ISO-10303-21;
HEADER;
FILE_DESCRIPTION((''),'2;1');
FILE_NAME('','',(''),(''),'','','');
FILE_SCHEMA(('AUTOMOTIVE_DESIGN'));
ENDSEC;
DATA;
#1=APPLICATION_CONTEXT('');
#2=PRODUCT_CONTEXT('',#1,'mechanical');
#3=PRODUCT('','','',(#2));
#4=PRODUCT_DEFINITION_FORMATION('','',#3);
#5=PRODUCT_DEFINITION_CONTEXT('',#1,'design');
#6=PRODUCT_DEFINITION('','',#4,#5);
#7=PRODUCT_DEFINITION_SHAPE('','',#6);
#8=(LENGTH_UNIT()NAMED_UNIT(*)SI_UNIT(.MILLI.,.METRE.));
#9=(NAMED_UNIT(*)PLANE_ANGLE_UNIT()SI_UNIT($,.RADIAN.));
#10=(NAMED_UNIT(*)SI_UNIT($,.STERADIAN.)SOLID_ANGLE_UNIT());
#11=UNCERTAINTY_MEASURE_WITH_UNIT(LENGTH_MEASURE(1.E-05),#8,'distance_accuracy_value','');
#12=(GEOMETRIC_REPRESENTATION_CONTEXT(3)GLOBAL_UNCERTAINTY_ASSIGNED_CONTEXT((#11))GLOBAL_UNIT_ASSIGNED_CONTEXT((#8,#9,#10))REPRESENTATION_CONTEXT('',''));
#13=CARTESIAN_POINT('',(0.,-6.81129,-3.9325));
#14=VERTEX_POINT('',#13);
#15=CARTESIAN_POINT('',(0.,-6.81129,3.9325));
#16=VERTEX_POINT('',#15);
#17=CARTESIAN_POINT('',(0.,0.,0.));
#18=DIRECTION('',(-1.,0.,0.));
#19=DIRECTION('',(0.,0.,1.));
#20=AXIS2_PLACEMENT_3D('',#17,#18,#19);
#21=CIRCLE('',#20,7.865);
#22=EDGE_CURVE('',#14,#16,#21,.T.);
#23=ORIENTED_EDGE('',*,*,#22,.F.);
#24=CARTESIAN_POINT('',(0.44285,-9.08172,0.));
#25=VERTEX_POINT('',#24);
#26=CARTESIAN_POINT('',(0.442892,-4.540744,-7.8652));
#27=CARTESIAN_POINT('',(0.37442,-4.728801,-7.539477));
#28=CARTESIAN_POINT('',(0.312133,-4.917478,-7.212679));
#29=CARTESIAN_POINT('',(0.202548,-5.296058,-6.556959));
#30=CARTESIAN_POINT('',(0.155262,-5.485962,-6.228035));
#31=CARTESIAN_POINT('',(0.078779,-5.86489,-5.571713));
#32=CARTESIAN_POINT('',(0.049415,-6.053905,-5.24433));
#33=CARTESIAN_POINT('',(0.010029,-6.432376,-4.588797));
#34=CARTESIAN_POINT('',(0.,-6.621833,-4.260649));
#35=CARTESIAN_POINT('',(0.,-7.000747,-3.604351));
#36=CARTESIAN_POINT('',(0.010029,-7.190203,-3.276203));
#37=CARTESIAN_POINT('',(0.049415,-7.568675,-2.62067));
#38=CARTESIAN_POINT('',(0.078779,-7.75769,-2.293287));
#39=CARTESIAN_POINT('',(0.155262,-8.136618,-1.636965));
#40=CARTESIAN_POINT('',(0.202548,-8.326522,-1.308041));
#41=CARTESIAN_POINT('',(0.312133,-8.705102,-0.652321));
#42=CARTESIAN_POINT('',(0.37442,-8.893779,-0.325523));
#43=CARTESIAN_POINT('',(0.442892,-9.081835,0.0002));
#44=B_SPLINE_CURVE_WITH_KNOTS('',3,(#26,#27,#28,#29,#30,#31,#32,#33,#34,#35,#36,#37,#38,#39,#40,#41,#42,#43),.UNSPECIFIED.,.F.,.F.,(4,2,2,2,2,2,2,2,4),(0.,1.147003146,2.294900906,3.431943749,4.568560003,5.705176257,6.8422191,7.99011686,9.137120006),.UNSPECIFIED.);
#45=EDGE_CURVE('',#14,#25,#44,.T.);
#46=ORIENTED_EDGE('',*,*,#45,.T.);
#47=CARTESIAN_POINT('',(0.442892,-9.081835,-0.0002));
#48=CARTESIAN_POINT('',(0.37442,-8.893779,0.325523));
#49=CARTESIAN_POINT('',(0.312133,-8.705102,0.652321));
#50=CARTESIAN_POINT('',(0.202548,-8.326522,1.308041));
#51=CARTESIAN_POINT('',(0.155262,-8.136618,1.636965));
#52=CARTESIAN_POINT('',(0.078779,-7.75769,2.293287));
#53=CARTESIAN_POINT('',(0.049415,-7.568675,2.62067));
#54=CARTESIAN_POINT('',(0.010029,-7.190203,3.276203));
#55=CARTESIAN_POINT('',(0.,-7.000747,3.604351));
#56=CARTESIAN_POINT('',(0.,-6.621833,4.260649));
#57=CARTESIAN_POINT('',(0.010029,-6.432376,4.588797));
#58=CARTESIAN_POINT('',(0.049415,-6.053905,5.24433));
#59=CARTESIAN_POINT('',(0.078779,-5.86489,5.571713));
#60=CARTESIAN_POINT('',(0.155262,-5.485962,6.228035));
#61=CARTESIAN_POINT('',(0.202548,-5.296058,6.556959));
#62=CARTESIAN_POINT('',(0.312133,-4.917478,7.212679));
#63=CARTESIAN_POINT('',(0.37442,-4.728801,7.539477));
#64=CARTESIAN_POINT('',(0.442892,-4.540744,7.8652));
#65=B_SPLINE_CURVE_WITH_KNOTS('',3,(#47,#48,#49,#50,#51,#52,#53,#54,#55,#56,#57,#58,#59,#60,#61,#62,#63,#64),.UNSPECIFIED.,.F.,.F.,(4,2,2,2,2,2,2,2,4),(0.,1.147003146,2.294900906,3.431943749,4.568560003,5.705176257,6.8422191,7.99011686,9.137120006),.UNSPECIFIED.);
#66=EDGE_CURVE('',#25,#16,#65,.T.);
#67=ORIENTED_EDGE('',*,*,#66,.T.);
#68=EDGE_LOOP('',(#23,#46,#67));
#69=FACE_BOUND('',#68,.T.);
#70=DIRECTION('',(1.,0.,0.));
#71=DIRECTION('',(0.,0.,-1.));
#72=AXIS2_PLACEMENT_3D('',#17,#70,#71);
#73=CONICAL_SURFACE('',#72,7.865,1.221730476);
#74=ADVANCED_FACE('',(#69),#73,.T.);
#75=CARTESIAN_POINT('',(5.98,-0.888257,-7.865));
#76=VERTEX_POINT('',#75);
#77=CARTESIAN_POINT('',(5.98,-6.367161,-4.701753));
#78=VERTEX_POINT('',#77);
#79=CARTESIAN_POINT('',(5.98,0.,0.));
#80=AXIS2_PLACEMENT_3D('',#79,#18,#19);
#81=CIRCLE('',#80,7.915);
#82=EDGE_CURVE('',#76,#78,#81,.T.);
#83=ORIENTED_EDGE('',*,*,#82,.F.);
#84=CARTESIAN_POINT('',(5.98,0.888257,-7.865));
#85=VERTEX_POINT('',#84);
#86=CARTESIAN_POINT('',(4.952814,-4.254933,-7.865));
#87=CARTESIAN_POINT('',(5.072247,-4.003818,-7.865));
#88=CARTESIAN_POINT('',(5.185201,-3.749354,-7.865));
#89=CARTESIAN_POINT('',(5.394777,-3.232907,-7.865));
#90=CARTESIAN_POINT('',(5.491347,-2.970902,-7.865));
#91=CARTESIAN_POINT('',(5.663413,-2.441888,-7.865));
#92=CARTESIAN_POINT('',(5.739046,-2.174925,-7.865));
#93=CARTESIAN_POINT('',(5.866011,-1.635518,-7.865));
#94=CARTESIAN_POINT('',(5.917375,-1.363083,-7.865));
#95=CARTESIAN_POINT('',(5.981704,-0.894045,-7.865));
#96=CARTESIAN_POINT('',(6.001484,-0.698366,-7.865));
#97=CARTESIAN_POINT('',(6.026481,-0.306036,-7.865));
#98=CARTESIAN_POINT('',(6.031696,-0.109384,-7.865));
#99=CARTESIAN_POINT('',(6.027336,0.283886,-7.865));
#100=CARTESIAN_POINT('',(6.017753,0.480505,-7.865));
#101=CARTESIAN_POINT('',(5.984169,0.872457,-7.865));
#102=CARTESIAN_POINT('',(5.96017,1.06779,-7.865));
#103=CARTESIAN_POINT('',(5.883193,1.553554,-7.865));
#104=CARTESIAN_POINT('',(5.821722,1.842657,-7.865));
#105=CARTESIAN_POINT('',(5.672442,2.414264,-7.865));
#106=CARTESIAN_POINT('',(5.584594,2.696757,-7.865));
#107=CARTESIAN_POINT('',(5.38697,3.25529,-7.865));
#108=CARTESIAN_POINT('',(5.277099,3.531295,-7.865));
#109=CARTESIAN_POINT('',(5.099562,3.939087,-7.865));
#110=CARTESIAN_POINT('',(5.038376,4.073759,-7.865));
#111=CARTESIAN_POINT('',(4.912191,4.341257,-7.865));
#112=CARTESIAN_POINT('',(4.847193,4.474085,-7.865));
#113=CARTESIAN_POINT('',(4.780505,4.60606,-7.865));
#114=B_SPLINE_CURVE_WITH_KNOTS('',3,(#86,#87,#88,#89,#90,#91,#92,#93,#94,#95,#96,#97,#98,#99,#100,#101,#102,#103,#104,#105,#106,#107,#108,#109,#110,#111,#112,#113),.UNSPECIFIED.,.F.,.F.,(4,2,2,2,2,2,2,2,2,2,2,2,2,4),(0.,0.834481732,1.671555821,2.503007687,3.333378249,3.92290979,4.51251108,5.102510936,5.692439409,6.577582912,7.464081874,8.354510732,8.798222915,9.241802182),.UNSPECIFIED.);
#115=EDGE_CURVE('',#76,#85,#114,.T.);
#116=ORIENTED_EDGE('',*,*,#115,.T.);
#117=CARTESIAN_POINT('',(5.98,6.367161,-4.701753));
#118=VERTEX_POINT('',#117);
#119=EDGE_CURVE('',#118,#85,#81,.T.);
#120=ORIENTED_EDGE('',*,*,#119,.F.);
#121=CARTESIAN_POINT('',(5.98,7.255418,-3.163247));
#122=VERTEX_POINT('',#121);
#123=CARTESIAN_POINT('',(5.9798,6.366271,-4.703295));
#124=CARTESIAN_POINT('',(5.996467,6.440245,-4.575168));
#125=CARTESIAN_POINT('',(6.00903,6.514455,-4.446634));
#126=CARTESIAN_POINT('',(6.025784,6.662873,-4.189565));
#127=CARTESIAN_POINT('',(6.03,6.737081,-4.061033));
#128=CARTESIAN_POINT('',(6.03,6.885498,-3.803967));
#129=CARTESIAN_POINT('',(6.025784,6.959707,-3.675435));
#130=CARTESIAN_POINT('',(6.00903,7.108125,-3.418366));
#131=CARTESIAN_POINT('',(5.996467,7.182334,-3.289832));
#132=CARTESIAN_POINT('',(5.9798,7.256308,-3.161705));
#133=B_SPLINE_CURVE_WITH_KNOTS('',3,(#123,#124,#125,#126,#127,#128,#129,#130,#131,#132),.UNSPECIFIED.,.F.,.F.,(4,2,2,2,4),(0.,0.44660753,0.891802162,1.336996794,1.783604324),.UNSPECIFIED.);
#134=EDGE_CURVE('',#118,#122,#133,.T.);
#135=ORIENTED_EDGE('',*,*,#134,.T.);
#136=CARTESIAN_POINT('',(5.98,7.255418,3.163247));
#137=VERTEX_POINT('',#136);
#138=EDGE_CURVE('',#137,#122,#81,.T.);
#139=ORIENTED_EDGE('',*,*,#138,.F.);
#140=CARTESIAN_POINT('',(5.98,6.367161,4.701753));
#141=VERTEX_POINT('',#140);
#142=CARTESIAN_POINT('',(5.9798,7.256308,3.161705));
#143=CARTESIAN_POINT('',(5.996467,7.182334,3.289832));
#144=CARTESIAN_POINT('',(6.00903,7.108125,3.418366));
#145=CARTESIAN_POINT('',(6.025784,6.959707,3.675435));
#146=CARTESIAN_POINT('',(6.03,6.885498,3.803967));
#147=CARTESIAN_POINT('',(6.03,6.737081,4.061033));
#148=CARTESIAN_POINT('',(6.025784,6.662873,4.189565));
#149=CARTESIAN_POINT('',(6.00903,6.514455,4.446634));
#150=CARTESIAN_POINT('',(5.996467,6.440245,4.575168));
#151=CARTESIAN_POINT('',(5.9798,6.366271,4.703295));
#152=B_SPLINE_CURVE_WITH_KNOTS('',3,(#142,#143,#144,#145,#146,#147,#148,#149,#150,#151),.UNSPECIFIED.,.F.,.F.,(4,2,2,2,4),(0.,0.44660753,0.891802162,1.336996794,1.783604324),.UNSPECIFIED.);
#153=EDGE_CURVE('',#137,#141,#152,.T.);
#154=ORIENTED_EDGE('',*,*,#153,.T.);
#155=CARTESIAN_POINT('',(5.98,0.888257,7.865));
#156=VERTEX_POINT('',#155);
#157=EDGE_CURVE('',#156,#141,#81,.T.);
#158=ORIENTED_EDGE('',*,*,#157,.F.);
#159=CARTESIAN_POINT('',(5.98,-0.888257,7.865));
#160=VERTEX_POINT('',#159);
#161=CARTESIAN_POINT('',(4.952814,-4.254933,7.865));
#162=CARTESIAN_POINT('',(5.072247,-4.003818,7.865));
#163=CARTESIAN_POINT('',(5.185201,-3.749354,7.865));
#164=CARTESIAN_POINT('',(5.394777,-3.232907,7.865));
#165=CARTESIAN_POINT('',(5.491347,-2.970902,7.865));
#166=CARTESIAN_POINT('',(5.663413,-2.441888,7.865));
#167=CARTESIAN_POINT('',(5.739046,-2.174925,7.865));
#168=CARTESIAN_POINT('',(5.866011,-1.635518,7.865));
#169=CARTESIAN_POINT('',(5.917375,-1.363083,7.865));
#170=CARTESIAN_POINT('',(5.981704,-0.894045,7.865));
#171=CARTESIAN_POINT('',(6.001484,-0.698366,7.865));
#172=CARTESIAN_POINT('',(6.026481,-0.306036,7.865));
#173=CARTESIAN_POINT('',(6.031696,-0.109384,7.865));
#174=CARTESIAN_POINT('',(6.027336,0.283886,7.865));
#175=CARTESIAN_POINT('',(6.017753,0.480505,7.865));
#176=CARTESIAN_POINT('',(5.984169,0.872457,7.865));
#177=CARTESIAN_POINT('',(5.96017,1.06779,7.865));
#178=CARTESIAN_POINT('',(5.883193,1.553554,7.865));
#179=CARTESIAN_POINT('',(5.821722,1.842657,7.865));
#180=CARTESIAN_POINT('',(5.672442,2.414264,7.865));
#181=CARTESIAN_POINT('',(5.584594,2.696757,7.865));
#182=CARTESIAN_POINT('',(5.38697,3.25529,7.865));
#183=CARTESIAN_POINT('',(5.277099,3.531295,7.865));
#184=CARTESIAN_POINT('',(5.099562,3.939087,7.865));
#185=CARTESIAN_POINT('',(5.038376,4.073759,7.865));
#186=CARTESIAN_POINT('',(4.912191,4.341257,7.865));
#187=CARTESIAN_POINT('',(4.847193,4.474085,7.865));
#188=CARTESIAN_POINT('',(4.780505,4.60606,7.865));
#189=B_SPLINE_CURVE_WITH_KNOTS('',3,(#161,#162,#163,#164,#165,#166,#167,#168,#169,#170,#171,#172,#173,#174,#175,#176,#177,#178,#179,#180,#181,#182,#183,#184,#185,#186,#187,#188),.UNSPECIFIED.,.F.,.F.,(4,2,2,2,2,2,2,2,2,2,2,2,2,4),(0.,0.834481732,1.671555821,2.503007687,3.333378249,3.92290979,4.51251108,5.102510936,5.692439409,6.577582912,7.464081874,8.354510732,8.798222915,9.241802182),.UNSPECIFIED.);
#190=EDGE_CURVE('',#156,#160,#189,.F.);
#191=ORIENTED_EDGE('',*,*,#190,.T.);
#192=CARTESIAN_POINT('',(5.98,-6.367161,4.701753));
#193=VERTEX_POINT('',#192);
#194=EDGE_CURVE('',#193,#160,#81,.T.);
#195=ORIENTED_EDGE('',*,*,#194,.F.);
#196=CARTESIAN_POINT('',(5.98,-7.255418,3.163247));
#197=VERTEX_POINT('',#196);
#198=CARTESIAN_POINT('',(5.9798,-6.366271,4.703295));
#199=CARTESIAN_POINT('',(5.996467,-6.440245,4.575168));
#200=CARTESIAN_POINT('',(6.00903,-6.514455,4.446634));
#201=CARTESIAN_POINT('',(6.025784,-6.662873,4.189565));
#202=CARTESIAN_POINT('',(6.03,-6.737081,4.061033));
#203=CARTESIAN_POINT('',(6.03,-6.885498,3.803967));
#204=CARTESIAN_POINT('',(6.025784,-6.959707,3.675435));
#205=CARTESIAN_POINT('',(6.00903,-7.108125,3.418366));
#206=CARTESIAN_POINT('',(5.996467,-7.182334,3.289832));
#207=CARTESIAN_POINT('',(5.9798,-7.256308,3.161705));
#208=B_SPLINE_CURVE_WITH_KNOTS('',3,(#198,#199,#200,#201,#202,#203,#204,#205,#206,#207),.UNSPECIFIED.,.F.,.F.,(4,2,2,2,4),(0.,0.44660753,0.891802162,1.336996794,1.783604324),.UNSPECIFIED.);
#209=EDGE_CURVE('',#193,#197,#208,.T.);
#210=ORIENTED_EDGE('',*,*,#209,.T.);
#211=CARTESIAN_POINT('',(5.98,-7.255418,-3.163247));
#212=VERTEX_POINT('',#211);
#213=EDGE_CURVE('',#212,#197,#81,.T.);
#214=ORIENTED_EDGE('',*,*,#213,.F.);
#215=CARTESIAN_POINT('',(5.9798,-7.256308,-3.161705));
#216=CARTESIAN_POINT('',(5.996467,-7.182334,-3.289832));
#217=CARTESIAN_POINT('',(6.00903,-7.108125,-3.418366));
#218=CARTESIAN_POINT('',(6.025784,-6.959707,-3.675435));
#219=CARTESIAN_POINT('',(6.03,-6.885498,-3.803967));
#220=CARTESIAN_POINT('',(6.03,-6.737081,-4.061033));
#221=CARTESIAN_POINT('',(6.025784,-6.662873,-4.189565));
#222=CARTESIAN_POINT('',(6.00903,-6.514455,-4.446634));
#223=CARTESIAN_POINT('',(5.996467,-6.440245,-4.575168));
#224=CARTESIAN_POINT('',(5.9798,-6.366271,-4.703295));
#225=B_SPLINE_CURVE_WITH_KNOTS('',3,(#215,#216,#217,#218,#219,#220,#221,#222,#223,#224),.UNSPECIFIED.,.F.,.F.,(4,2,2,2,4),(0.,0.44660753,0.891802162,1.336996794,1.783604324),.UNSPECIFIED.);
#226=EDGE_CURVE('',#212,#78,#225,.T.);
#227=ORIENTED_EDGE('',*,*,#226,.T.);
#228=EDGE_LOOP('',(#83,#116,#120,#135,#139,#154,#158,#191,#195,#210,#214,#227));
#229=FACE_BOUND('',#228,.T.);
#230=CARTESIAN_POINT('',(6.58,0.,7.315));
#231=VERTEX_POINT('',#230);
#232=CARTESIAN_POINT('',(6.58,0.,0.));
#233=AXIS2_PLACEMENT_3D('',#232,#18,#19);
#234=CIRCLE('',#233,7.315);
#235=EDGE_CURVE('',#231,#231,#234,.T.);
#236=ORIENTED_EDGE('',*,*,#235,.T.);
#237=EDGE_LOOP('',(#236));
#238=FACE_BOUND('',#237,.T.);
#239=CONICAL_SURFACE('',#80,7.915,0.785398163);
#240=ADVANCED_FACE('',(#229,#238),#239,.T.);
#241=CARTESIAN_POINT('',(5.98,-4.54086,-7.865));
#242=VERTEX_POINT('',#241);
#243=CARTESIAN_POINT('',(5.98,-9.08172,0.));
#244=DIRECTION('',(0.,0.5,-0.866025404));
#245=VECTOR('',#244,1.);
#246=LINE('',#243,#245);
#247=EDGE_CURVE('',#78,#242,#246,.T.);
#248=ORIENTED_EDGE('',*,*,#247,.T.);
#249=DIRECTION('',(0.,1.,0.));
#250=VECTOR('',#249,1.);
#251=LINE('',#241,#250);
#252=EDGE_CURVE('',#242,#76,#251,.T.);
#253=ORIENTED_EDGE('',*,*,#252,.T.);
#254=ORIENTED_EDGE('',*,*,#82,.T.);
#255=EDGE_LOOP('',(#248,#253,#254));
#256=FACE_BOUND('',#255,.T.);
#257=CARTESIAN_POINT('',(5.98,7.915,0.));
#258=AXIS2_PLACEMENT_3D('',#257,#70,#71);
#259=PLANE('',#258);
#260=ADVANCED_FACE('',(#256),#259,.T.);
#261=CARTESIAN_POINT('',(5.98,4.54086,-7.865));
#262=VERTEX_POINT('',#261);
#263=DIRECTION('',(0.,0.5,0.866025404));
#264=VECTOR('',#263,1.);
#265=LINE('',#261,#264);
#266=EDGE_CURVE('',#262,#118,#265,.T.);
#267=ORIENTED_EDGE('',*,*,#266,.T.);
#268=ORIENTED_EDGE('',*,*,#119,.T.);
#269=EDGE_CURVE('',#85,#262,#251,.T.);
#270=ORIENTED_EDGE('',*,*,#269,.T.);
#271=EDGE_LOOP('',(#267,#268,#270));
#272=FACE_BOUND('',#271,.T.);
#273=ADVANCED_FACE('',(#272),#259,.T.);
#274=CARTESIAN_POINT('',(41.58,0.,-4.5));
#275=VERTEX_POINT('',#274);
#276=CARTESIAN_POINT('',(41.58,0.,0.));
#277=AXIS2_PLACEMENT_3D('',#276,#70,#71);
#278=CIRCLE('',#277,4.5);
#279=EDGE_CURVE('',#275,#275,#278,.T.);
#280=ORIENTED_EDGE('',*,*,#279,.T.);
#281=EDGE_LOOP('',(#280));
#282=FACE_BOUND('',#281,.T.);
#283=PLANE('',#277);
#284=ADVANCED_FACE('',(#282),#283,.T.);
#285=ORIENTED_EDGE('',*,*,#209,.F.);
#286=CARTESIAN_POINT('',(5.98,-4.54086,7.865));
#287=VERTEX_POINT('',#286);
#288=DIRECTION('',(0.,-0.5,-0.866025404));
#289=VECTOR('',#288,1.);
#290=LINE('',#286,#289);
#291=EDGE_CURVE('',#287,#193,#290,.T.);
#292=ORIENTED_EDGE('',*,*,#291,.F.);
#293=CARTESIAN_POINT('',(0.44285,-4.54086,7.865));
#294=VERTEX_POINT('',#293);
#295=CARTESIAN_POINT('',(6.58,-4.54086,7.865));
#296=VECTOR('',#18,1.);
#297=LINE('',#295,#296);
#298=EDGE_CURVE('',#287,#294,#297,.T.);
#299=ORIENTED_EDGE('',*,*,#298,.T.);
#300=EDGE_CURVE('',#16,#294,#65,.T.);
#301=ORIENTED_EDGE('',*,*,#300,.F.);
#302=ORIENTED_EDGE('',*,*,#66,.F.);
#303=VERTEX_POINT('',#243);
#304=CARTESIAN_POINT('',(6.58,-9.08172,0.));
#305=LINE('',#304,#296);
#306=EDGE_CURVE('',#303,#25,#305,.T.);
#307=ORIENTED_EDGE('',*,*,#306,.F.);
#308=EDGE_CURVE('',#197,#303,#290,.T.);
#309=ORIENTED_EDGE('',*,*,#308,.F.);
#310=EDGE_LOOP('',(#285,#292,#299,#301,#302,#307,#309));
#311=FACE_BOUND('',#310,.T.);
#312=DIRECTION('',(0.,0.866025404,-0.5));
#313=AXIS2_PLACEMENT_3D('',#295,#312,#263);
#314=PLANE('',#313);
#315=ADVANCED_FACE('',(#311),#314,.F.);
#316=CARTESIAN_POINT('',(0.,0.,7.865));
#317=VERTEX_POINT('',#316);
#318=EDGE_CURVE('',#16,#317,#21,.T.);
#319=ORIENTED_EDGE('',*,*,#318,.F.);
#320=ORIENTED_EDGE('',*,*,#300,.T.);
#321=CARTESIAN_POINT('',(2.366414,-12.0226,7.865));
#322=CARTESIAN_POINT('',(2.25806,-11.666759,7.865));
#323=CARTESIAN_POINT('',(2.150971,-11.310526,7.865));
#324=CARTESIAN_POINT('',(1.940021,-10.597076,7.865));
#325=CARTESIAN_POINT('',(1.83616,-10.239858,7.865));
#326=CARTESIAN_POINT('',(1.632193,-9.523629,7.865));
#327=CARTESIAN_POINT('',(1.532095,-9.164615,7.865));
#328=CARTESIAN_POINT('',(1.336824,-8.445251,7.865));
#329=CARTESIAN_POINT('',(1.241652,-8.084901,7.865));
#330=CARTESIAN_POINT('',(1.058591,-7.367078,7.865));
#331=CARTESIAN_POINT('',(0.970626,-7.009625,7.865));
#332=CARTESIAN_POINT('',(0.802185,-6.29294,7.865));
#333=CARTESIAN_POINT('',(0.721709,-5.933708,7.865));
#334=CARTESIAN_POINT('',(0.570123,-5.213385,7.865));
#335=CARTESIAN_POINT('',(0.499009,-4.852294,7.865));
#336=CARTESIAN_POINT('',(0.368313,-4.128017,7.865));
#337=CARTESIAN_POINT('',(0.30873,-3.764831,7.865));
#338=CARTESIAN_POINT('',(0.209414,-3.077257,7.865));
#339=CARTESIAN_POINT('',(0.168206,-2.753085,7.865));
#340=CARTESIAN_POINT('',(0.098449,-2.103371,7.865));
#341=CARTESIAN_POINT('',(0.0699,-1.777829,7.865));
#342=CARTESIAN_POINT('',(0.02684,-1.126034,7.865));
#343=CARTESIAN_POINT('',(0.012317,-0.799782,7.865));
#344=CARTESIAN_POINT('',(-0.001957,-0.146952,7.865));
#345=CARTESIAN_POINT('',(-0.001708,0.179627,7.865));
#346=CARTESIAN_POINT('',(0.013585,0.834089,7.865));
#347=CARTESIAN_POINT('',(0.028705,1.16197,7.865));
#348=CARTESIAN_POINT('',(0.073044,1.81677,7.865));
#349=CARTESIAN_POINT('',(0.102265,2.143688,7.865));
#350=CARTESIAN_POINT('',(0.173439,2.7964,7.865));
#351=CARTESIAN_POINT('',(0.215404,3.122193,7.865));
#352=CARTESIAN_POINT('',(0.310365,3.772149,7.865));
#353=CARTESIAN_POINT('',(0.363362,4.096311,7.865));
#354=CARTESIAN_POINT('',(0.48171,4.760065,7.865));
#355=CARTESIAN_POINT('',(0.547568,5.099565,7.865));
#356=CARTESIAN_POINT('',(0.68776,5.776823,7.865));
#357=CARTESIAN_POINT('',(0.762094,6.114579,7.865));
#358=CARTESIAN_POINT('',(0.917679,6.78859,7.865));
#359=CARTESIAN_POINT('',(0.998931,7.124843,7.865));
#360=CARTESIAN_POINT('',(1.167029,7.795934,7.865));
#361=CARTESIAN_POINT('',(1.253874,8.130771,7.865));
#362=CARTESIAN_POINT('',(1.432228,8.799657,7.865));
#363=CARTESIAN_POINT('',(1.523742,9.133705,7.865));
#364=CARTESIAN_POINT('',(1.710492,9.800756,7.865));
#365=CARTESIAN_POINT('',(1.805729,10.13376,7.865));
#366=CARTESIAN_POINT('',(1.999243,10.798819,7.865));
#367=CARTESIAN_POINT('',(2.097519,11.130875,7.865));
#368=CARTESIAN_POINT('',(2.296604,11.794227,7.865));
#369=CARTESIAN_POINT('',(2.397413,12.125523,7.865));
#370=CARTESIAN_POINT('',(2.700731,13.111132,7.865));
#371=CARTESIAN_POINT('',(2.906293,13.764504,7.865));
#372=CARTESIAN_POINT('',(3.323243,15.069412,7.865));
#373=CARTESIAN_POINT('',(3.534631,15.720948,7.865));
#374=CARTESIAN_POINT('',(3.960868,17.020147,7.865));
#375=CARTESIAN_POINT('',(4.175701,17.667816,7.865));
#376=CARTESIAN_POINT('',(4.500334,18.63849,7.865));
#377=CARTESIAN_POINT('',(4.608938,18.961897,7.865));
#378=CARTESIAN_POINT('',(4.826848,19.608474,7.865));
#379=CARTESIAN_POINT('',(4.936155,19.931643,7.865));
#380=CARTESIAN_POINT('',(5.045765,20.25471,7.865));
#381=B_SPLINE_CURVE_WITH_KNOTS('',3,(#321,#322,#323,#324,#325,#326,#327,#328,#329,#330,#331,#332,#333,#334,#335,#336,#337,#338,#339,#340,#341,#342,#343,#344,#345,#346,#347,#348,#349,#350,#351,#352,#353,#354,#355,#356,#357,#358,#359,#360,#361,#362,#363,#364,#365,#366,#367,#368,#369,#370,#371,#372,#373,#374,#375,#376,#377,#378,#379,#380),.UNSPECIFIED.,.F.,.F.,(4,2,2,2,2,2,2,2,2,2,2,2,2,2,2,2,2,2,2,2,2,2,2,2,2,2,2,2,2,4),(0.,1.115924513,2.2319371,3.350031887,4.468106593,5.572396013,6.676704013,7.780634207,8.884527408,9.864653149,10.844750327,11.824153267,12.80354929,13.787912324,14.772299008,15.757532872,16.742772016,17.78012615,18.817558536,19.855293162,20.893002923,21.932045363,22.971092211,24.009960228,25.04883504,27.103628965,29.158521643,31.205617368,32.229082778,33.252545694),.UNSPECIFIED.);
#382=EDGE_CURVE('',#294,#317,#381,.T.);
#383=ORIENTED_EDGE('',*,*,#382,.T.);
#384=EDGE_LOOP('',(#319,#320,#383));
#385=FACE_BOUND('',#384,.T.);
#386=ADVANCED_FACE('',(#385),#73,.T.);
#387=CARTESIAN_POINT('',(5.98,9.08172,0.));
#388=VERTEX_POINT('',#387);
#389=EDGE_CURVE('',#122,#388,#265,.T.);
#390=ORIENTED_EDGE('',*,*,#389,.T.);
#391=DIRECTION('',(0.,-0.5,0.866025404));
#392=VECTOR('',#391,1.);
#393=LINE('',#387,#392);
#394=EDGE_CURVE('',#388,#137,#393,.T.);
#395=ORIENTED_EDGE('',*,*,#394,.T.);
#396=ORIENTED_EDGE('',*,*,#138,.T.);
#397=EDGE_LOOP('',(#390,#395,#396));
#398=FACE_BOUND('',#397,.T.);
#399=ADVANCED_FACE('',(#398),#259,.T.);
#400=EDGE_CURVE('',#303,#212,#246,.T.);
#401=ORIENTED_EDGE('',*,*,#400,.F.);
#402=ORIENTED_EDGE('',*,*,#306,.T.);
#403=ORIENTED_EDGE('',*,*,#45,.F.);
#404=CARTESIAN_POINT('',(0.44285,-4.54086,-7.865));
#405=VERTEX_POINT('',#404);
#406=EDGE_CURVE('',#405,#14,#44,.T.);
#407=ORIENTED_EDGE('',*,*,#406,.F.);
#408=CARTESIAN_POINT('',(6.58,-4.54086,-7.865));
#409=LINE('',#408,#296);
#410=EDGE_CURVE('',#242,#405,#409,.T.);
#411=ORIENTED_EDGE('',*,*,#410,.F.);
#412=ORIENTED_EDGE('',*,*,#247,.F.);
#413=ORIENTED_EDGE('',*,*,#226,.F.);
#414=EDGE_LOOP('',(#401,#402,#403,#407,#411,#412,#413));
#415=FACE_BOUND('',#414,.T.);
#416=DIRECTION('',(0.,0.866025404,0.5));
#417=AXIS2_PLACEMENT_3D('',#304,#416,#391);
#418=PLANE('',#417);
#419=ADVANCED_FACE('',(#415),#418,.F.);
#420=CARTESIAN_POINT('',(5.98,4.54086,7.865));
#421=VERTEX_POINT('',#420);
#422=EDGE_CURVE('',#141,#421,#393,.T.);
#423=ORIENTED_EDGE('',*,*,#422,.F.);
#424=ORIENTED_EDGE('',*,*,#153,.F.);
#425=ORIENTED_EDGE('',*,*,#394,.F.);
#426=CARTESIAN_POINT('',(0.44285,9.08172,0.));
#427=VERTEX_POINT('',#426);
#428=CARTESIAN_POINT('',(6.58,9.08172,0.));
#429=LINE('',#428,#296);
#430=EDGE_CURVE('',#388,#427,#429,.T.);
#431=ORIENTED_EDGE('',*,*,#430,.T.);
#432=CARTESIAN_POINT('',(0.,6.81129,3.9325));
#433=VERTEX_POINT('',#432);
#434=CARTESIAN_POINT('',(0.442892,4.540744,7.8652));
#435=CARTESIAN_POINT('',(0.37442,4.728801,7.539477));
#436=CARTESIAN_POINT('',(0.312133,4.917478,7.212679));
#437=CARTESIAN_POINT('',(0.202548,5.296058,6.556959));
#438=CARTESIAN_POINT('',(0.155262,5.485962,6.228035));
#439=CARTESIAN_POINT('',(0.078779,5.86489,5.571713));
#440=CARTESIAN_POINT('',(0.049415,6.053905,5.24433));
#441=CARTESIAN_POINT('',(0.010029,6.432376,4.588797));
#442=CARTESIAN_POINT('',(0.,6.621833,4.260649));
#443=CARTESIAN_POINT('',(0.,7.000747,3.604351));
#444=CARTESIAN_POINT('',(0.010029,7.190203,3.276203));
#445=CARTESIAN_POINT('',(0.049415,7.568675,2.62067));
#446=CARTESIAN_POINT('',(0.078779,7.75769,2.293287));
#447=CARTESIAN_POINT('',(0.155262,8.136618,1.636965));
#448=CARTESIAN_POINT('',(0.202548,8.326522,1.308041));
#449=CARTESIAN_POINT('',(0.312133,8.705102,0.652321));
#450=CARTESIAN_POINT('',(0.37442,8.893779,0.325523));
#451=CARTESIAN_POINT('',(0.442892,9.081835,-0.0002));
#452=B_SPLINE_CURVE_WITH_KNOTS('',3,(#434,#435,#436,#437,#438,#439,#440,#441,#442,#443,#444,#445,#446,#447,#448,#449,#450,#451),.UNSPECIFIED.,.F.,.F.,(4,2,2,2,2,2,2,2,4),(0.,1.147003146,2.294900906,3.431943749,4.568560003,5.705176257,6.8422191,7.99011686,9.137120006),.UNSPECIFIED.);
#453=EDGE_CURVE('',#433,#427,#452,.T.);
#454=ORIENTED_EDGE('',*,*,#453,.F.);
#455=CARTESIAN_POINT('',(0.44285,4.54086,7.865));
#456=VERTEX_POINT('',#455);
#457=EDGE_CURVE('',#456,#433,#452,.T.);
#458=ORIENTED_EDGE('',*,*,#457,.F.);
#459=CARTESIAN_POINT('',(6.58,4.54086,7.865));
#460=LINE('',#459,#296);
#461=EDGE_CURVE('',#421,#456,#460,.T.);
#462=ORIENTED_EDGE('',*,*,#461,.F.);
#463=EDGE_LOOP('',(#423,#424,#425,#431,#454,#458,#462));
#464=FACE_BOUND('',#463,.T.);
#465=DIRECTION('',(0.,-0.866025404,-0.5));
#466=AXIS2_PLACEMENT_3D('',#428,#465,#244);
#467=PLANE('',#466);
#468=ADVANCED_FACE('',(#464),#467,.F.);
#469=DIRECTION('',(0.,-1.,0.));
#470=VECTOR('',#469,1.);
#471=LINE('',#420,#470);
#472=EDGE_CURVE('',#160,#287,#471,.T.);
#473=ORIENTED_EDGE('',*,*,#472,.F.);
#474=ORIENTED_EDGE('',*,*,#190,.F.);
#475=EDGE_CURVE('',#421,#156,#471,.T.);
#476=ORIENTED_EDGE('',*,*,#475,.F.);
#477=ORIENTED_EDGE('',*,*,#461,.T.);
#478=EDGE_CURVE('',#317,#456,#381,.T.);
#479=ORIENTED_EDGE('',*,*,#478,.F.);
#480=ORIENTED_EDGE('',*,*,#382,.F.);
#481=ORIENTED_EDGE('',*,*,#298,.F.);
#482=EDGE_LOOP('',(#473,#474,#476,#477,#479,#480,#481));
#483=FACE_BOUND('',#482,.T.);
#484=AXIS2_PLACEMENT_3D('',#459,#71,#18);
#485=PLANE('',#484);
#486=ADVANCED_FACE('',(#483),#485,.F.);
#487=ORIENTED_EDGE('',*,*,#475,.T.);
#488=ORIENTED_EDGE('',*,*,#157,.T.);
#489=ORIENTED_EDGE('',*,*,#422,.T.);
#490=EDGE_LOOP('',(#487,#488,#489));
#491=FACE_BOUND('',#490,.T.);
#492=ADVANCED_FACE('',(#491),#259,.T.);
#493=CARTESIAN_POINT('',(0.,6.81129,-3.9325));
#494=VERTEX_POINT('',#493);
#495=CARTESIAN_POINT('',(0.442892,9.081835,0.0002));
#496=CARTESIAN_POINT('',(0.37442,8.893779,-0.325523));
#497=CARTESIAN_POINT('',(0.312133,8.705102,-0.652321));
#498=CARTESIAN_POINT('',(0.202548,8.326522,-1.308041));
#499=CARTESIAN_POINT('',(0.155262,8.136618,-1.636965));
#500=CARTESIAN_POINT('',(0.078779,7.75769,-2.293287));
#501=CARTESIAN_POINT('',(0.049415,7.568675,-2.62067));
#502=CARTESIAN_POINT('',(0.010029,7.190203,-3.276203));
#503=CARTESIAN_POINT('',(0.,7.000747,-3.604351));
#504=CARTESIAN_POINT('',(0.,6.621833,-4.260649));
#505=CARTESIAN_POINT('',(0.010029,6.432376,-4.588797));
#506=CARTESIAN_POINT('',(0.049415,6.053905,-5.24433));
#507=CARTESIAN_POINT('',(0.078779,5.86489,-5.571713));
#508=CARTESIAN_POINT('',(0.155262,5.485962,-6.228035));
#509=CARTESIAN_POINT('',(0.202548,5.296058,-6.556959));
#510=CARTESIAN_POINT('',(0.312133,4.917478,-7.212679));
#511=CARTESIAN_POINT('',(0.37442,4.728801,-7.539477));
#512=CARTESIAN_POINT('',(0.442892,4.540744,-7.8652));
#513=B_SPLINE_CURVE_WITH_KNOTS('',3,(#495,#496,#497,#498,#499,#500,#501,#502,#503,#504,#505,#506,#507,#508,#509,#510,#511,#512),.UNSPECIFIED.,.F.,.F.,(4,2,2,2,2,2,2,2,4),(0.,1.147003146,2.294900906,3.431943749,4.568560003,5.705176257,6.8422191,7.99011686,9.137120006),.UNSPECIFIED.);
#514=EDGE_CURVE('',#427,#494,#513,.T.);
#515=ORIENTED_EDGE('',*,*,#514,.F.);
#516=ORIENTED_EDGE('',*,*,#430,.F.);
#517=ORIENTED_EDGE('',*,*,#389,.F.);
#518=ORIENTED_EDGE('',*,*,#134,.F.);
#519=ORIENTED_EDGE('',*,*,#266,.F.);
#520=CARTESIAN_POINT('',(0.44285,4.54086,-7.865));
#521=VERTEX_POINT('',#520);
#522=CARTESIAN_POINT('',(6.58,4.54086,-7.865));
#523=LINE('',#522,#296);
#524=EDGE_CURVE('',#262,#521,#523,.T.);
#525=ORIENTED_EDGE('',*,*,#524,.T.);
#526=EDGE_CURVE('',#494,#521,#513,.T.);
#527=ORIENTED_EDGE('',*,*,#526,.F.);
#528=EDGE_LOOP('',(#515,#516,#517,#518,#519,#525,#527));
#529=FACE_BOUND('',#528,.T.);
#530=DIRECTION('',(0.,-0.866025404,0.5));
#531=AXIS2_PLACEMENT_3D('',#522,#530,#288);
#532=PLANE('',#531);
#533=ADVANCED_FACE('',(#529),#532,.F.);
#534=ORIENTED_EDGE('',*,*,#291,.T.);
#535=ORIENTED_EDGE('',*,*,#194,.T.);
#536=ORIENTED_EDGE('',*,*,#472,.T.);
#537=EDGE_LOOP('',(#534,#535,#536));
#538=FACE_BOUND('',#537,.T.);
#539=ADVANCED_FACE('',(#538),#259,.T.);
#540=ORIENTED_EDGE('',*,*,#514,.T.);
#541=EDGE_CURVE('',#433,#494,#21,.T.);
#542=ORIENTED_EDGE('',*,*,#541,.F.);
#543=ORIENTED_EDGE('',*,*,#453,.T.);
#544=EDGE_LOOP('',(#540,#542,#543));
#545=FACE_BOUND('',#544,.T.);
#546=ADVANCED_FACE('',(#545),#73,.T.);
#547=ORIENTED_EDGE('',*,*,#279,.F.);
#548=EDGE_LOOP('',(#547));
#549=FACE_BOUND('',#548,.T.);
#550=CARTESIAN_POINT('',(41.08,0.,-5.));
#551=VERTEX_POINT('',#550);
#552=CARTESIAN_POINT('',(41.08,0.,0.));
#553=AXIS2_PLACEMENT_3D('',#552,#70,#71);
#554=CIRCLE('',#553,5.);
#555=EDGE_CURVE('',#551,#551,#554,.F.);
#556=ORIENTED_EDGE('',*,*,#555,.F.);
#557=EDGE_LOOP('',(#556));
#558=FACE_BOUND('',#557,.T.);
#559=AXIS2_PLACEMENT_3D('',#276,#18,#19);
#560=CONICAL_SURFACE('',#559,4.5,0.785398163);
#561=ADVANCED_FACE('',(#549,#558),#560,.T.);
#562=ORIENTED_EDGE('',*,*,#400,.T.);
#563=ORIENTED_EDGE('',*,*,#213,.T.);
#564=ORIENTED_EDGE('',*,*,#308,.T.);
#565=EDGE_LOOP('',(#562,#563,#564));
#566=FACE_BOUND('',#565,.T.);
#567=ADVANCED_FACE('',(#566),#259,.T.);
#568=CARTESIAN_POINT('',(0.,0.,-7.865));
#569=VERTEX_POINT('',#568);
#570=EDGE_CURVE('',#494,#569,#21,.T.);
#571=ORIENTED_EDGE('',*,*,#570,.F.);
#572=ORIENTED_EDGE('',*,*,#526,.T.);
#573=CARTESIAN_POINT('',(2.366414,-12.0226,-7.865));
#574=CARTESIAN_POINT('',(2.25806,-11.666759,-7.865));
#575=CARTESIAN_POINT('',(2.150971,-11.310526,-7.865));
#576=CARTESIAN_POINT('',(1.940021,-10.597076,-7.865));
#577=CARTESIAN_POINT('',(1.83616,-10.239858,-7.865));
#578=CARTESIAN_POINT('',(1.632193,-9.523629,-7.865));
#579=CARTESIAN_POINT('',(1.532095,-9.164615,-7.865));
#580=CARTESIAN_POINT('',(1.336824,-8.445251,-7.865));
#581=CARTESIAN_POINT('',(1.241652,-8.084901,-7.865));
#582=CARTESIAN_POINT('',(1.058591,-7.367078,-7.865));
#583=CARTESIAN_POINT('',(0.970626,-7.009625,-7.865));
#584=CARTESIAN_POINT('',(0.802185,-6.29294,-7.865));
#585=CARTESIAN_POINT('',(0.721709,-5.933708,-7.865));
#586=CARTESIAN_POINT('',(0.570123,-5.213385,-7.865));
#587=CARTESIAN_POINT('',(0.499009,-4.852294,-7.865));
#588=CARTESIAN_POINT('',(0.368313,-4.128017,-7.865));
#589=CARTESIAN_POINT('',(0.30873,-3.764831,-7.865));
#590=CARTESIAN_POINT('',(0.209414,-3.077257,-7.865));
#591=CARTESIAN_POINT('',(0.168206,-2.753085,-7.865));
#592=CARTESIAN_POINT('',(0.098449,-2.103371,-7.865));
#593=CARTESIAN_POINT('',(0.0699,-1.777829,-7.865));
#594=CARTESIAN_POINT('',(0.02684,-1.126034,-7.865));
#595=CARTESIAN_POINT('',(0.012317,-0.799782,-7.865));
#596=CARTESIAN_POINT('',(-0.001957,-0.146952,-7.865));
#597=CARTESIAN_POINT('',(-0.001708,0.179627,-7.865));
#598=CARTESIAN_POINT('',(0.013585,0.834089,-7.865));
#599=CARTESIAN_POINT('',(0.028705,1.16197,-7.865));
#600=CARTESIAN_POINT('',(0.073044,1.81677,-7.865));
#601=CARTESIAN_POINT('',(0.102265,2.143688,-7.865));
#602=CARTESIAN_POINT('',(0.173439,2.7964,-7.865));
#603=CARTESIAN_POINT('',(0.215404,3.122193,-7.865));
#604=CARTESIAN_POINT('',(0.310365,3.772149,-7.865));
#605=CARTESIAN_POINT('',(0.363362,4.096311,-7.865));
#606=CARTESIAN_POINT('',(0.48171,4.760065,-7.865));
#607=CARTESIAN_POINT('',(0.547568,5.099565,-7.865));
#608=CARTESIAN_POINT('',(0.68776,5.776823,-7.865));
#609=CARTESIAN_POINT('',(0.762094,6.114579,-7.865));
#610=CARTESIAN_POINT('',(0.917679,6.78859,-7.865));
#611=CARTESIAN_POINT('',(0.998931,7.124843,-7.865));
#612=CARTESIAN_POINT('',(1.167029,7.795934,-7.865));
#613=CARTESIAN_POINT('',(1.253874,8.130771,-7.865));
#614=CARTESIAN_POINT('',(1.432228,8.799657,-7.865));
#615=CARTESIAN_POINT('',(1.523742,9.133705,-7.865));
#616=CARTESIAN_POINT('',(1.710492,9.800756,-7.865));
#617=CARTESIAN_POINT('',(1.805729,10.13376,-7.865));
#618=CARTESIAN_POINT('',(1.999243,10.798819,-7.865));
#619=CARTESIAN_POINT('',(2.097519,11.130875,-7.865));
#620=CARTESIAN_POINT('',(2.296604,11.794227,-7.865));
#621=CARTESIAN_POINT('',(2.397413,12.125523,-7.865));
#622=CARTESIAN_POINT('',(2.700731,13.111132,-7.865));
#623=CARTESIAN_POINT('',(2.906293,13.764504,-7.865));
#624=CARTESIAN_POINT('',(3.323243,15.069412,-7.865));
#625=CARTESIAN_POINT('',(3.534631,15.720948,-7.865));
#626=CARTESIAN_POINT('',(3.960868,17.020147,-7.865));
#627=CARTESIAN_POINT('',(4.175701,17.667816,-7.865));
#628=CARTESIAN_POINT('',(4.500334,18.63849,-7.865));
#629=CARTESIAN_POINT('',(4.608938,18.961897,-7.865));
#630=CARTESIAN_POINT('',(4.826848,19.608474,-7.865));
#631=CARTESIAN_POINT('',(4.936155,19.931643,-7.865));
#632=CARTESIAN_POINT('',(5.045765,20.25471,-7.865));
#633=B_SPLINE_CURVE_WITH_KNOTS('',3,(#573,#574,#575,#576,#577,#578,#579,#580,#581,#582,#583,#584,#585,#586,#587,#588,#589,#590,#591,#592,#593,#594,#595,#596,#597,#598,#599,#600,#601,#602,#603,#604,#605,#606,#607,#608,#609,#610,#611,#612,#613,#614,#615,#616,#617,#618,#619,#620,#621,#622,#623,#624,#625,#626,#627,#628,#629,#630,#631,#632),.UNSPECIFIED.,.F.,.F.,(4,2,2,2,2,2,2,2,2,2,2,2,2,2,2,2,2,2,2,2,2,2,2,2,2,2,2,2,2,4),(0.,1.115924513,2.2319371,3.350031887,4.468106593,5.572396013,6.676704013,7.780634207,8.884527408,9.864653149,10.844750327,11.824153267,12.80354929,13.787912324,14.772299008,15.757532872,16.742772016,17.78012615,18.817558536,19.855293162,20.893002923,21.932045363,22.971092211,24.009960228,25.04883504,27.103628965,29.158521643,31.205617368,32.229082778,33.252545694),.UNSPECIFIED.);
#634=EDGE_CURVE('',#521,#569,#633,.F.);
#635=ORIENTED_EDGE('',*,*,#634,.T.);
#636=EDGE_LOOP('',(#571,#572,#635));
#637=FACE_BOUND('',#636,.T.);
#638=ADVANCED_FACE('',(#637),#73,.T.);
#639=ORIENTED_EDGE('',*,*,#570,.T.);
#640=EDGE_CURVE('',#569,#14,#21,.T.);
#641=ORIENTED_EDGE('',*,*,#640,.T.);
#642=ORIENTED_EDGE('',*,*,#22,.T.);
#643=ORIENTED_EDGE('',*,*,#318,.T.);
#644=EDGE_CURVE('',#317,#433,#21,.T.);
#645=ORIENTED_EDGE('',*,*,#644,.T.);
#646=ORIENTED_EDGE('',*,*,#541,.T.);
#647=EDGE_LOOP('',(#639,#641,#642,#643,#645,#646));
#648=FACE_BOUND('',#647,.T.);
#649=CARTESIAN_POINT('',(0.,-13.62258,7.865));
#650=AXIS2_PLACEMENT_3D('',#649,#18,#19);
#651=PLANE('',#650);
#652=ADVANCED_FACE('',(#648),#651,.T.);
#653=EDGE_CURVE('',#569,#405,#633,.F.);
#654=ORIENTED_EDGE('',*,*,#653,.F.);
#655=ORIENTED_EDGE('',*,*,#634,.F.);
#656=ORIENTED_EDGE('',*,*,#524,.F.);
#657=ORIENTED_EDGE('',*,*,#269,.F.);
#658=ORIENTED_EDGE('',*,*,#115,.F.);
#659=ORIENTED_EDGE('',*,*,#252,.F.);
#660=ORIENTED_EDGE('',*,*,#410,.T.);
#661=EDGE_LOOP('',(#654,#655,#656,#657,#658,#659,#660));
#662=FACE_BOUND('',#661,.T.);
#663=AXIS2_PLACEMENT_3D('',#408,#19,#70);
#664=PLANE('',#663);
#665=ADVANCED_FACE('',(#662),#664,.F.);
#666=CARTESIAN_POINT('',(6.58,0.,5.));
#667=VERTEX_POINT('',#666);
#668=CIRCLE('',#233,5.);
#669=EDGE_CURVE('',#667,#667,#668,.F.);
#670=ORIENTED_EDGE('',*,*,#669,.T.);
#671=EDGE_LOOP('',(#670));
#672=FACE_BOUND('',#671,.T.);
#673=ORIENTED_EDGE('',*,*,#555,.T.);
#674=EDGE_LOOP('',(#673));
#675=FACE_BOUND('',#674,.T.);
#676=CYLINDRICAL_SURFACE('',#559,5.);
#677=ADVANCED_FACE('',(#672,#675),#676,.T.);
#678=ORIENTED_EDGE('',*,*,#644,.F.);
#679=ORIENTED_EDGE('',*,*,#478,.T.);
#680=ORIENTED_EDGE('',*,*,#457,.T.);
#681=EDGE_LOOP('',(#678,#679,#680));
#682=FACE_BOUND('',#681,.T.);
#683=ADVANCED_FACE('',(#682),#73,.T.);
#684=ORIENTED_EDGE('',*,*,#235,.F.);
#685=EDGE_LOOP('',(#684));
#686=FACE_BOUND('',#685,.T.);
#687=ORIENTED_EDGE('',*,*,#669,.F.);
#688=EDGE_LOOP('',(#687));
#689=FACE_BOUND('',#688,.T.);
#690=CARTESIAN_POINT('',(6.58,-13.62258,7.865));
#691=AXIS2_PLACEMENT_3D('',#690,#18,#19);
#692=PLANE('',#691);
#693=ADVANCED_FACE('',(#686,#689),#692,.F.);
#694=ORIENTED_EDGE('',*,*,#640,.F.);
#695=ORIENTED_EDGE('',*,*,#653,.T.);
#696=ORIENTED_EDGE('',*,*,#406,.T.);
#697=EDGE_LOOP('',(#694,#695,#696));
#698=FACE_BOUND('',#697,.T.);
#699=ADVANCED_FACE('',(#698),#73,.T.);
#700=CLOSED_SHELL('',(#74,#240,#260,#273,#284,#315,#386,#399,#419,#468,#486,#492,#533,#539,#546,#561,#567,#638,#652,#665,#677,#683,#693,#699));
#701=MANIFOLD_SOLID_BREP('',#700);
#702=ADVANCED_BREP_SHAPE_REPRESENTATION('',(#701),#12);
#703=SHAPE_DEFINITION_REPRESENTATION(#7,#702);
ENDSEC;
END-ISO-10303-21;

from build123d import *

# Parameters (mm, degrees)
BASEHEAD_DEPTH = 6.58
SKETCH5_R      = 5
BASEBODY_DEPTH = 35
CHAMFER1_SIZE  = 0.5


with BuildPart() as part:
    # Sketch2 → BaseHead (new body)
    with BuildSketch(Plane(origin=(0, 0, 0), x_dir=(0, 0, -1), z_dir=(1, 0, 0))):
        Polygon((7.865, -4.540859867), (7.865, 4.540859867), (0, 9.081719734), (-7.865, 4.540859867), (-7.865, -4.540859867), (0, -9.081719734), align=None)
    extrude(amount=BASEHEAD_DEPTH)

    # Sketch3 → BearingFace (revolve, cut)
    with BuildSketch(Plane.XY, mode=Mode.PRIVATE) as bearingface_sk:
        Polygon((6.58, 9.081719734), (6.58, 7.315), (5.98, 7.915), (5.98, 9.081719734), align=None)
    revolve(bearingface_sk.sketch.rotate(Axis((-0.957090588, 0, 0), (1, 0, 0)), 90), axis=Axis((-0.957090588, 0, 0), (1, 0, 0)), mode=Mode.SUBTRACT)

    # Sketch4 → HeadChamfer (revolve, cut)
    with BuildSketch(Plane.XY):
        Polygon((0, 9.081719734), (0.442849767, 9.081719734), (0, 7.865), align=None)
    revolve(axis=Axis((-0.493528746, 0, 0), (1, 0, 0)), mode=Mode.SUBTRACT)

    # Sketch5 → BaseBody (add)
    with BuildSketch(Plane(origin=(6.58, 0, 0), x_dir=(0, 0, -1), z_dir=(1, 0, 0))):
        with Locations(Location((0, 0, 0), (0, 0, 180))):
            Circle(SKETCH5_R)
    extrude(amount=BASEBODY_DEPTH)

    # Chamfer1
    chamfer1_edges = [part.edges().sort_by_distance(p)[0] for p in [
        (41.58, 0, -5),
    ]]
    chamfer(chamfer1_edges, length=CHAMFER1_SIZE)


solid = part.part
